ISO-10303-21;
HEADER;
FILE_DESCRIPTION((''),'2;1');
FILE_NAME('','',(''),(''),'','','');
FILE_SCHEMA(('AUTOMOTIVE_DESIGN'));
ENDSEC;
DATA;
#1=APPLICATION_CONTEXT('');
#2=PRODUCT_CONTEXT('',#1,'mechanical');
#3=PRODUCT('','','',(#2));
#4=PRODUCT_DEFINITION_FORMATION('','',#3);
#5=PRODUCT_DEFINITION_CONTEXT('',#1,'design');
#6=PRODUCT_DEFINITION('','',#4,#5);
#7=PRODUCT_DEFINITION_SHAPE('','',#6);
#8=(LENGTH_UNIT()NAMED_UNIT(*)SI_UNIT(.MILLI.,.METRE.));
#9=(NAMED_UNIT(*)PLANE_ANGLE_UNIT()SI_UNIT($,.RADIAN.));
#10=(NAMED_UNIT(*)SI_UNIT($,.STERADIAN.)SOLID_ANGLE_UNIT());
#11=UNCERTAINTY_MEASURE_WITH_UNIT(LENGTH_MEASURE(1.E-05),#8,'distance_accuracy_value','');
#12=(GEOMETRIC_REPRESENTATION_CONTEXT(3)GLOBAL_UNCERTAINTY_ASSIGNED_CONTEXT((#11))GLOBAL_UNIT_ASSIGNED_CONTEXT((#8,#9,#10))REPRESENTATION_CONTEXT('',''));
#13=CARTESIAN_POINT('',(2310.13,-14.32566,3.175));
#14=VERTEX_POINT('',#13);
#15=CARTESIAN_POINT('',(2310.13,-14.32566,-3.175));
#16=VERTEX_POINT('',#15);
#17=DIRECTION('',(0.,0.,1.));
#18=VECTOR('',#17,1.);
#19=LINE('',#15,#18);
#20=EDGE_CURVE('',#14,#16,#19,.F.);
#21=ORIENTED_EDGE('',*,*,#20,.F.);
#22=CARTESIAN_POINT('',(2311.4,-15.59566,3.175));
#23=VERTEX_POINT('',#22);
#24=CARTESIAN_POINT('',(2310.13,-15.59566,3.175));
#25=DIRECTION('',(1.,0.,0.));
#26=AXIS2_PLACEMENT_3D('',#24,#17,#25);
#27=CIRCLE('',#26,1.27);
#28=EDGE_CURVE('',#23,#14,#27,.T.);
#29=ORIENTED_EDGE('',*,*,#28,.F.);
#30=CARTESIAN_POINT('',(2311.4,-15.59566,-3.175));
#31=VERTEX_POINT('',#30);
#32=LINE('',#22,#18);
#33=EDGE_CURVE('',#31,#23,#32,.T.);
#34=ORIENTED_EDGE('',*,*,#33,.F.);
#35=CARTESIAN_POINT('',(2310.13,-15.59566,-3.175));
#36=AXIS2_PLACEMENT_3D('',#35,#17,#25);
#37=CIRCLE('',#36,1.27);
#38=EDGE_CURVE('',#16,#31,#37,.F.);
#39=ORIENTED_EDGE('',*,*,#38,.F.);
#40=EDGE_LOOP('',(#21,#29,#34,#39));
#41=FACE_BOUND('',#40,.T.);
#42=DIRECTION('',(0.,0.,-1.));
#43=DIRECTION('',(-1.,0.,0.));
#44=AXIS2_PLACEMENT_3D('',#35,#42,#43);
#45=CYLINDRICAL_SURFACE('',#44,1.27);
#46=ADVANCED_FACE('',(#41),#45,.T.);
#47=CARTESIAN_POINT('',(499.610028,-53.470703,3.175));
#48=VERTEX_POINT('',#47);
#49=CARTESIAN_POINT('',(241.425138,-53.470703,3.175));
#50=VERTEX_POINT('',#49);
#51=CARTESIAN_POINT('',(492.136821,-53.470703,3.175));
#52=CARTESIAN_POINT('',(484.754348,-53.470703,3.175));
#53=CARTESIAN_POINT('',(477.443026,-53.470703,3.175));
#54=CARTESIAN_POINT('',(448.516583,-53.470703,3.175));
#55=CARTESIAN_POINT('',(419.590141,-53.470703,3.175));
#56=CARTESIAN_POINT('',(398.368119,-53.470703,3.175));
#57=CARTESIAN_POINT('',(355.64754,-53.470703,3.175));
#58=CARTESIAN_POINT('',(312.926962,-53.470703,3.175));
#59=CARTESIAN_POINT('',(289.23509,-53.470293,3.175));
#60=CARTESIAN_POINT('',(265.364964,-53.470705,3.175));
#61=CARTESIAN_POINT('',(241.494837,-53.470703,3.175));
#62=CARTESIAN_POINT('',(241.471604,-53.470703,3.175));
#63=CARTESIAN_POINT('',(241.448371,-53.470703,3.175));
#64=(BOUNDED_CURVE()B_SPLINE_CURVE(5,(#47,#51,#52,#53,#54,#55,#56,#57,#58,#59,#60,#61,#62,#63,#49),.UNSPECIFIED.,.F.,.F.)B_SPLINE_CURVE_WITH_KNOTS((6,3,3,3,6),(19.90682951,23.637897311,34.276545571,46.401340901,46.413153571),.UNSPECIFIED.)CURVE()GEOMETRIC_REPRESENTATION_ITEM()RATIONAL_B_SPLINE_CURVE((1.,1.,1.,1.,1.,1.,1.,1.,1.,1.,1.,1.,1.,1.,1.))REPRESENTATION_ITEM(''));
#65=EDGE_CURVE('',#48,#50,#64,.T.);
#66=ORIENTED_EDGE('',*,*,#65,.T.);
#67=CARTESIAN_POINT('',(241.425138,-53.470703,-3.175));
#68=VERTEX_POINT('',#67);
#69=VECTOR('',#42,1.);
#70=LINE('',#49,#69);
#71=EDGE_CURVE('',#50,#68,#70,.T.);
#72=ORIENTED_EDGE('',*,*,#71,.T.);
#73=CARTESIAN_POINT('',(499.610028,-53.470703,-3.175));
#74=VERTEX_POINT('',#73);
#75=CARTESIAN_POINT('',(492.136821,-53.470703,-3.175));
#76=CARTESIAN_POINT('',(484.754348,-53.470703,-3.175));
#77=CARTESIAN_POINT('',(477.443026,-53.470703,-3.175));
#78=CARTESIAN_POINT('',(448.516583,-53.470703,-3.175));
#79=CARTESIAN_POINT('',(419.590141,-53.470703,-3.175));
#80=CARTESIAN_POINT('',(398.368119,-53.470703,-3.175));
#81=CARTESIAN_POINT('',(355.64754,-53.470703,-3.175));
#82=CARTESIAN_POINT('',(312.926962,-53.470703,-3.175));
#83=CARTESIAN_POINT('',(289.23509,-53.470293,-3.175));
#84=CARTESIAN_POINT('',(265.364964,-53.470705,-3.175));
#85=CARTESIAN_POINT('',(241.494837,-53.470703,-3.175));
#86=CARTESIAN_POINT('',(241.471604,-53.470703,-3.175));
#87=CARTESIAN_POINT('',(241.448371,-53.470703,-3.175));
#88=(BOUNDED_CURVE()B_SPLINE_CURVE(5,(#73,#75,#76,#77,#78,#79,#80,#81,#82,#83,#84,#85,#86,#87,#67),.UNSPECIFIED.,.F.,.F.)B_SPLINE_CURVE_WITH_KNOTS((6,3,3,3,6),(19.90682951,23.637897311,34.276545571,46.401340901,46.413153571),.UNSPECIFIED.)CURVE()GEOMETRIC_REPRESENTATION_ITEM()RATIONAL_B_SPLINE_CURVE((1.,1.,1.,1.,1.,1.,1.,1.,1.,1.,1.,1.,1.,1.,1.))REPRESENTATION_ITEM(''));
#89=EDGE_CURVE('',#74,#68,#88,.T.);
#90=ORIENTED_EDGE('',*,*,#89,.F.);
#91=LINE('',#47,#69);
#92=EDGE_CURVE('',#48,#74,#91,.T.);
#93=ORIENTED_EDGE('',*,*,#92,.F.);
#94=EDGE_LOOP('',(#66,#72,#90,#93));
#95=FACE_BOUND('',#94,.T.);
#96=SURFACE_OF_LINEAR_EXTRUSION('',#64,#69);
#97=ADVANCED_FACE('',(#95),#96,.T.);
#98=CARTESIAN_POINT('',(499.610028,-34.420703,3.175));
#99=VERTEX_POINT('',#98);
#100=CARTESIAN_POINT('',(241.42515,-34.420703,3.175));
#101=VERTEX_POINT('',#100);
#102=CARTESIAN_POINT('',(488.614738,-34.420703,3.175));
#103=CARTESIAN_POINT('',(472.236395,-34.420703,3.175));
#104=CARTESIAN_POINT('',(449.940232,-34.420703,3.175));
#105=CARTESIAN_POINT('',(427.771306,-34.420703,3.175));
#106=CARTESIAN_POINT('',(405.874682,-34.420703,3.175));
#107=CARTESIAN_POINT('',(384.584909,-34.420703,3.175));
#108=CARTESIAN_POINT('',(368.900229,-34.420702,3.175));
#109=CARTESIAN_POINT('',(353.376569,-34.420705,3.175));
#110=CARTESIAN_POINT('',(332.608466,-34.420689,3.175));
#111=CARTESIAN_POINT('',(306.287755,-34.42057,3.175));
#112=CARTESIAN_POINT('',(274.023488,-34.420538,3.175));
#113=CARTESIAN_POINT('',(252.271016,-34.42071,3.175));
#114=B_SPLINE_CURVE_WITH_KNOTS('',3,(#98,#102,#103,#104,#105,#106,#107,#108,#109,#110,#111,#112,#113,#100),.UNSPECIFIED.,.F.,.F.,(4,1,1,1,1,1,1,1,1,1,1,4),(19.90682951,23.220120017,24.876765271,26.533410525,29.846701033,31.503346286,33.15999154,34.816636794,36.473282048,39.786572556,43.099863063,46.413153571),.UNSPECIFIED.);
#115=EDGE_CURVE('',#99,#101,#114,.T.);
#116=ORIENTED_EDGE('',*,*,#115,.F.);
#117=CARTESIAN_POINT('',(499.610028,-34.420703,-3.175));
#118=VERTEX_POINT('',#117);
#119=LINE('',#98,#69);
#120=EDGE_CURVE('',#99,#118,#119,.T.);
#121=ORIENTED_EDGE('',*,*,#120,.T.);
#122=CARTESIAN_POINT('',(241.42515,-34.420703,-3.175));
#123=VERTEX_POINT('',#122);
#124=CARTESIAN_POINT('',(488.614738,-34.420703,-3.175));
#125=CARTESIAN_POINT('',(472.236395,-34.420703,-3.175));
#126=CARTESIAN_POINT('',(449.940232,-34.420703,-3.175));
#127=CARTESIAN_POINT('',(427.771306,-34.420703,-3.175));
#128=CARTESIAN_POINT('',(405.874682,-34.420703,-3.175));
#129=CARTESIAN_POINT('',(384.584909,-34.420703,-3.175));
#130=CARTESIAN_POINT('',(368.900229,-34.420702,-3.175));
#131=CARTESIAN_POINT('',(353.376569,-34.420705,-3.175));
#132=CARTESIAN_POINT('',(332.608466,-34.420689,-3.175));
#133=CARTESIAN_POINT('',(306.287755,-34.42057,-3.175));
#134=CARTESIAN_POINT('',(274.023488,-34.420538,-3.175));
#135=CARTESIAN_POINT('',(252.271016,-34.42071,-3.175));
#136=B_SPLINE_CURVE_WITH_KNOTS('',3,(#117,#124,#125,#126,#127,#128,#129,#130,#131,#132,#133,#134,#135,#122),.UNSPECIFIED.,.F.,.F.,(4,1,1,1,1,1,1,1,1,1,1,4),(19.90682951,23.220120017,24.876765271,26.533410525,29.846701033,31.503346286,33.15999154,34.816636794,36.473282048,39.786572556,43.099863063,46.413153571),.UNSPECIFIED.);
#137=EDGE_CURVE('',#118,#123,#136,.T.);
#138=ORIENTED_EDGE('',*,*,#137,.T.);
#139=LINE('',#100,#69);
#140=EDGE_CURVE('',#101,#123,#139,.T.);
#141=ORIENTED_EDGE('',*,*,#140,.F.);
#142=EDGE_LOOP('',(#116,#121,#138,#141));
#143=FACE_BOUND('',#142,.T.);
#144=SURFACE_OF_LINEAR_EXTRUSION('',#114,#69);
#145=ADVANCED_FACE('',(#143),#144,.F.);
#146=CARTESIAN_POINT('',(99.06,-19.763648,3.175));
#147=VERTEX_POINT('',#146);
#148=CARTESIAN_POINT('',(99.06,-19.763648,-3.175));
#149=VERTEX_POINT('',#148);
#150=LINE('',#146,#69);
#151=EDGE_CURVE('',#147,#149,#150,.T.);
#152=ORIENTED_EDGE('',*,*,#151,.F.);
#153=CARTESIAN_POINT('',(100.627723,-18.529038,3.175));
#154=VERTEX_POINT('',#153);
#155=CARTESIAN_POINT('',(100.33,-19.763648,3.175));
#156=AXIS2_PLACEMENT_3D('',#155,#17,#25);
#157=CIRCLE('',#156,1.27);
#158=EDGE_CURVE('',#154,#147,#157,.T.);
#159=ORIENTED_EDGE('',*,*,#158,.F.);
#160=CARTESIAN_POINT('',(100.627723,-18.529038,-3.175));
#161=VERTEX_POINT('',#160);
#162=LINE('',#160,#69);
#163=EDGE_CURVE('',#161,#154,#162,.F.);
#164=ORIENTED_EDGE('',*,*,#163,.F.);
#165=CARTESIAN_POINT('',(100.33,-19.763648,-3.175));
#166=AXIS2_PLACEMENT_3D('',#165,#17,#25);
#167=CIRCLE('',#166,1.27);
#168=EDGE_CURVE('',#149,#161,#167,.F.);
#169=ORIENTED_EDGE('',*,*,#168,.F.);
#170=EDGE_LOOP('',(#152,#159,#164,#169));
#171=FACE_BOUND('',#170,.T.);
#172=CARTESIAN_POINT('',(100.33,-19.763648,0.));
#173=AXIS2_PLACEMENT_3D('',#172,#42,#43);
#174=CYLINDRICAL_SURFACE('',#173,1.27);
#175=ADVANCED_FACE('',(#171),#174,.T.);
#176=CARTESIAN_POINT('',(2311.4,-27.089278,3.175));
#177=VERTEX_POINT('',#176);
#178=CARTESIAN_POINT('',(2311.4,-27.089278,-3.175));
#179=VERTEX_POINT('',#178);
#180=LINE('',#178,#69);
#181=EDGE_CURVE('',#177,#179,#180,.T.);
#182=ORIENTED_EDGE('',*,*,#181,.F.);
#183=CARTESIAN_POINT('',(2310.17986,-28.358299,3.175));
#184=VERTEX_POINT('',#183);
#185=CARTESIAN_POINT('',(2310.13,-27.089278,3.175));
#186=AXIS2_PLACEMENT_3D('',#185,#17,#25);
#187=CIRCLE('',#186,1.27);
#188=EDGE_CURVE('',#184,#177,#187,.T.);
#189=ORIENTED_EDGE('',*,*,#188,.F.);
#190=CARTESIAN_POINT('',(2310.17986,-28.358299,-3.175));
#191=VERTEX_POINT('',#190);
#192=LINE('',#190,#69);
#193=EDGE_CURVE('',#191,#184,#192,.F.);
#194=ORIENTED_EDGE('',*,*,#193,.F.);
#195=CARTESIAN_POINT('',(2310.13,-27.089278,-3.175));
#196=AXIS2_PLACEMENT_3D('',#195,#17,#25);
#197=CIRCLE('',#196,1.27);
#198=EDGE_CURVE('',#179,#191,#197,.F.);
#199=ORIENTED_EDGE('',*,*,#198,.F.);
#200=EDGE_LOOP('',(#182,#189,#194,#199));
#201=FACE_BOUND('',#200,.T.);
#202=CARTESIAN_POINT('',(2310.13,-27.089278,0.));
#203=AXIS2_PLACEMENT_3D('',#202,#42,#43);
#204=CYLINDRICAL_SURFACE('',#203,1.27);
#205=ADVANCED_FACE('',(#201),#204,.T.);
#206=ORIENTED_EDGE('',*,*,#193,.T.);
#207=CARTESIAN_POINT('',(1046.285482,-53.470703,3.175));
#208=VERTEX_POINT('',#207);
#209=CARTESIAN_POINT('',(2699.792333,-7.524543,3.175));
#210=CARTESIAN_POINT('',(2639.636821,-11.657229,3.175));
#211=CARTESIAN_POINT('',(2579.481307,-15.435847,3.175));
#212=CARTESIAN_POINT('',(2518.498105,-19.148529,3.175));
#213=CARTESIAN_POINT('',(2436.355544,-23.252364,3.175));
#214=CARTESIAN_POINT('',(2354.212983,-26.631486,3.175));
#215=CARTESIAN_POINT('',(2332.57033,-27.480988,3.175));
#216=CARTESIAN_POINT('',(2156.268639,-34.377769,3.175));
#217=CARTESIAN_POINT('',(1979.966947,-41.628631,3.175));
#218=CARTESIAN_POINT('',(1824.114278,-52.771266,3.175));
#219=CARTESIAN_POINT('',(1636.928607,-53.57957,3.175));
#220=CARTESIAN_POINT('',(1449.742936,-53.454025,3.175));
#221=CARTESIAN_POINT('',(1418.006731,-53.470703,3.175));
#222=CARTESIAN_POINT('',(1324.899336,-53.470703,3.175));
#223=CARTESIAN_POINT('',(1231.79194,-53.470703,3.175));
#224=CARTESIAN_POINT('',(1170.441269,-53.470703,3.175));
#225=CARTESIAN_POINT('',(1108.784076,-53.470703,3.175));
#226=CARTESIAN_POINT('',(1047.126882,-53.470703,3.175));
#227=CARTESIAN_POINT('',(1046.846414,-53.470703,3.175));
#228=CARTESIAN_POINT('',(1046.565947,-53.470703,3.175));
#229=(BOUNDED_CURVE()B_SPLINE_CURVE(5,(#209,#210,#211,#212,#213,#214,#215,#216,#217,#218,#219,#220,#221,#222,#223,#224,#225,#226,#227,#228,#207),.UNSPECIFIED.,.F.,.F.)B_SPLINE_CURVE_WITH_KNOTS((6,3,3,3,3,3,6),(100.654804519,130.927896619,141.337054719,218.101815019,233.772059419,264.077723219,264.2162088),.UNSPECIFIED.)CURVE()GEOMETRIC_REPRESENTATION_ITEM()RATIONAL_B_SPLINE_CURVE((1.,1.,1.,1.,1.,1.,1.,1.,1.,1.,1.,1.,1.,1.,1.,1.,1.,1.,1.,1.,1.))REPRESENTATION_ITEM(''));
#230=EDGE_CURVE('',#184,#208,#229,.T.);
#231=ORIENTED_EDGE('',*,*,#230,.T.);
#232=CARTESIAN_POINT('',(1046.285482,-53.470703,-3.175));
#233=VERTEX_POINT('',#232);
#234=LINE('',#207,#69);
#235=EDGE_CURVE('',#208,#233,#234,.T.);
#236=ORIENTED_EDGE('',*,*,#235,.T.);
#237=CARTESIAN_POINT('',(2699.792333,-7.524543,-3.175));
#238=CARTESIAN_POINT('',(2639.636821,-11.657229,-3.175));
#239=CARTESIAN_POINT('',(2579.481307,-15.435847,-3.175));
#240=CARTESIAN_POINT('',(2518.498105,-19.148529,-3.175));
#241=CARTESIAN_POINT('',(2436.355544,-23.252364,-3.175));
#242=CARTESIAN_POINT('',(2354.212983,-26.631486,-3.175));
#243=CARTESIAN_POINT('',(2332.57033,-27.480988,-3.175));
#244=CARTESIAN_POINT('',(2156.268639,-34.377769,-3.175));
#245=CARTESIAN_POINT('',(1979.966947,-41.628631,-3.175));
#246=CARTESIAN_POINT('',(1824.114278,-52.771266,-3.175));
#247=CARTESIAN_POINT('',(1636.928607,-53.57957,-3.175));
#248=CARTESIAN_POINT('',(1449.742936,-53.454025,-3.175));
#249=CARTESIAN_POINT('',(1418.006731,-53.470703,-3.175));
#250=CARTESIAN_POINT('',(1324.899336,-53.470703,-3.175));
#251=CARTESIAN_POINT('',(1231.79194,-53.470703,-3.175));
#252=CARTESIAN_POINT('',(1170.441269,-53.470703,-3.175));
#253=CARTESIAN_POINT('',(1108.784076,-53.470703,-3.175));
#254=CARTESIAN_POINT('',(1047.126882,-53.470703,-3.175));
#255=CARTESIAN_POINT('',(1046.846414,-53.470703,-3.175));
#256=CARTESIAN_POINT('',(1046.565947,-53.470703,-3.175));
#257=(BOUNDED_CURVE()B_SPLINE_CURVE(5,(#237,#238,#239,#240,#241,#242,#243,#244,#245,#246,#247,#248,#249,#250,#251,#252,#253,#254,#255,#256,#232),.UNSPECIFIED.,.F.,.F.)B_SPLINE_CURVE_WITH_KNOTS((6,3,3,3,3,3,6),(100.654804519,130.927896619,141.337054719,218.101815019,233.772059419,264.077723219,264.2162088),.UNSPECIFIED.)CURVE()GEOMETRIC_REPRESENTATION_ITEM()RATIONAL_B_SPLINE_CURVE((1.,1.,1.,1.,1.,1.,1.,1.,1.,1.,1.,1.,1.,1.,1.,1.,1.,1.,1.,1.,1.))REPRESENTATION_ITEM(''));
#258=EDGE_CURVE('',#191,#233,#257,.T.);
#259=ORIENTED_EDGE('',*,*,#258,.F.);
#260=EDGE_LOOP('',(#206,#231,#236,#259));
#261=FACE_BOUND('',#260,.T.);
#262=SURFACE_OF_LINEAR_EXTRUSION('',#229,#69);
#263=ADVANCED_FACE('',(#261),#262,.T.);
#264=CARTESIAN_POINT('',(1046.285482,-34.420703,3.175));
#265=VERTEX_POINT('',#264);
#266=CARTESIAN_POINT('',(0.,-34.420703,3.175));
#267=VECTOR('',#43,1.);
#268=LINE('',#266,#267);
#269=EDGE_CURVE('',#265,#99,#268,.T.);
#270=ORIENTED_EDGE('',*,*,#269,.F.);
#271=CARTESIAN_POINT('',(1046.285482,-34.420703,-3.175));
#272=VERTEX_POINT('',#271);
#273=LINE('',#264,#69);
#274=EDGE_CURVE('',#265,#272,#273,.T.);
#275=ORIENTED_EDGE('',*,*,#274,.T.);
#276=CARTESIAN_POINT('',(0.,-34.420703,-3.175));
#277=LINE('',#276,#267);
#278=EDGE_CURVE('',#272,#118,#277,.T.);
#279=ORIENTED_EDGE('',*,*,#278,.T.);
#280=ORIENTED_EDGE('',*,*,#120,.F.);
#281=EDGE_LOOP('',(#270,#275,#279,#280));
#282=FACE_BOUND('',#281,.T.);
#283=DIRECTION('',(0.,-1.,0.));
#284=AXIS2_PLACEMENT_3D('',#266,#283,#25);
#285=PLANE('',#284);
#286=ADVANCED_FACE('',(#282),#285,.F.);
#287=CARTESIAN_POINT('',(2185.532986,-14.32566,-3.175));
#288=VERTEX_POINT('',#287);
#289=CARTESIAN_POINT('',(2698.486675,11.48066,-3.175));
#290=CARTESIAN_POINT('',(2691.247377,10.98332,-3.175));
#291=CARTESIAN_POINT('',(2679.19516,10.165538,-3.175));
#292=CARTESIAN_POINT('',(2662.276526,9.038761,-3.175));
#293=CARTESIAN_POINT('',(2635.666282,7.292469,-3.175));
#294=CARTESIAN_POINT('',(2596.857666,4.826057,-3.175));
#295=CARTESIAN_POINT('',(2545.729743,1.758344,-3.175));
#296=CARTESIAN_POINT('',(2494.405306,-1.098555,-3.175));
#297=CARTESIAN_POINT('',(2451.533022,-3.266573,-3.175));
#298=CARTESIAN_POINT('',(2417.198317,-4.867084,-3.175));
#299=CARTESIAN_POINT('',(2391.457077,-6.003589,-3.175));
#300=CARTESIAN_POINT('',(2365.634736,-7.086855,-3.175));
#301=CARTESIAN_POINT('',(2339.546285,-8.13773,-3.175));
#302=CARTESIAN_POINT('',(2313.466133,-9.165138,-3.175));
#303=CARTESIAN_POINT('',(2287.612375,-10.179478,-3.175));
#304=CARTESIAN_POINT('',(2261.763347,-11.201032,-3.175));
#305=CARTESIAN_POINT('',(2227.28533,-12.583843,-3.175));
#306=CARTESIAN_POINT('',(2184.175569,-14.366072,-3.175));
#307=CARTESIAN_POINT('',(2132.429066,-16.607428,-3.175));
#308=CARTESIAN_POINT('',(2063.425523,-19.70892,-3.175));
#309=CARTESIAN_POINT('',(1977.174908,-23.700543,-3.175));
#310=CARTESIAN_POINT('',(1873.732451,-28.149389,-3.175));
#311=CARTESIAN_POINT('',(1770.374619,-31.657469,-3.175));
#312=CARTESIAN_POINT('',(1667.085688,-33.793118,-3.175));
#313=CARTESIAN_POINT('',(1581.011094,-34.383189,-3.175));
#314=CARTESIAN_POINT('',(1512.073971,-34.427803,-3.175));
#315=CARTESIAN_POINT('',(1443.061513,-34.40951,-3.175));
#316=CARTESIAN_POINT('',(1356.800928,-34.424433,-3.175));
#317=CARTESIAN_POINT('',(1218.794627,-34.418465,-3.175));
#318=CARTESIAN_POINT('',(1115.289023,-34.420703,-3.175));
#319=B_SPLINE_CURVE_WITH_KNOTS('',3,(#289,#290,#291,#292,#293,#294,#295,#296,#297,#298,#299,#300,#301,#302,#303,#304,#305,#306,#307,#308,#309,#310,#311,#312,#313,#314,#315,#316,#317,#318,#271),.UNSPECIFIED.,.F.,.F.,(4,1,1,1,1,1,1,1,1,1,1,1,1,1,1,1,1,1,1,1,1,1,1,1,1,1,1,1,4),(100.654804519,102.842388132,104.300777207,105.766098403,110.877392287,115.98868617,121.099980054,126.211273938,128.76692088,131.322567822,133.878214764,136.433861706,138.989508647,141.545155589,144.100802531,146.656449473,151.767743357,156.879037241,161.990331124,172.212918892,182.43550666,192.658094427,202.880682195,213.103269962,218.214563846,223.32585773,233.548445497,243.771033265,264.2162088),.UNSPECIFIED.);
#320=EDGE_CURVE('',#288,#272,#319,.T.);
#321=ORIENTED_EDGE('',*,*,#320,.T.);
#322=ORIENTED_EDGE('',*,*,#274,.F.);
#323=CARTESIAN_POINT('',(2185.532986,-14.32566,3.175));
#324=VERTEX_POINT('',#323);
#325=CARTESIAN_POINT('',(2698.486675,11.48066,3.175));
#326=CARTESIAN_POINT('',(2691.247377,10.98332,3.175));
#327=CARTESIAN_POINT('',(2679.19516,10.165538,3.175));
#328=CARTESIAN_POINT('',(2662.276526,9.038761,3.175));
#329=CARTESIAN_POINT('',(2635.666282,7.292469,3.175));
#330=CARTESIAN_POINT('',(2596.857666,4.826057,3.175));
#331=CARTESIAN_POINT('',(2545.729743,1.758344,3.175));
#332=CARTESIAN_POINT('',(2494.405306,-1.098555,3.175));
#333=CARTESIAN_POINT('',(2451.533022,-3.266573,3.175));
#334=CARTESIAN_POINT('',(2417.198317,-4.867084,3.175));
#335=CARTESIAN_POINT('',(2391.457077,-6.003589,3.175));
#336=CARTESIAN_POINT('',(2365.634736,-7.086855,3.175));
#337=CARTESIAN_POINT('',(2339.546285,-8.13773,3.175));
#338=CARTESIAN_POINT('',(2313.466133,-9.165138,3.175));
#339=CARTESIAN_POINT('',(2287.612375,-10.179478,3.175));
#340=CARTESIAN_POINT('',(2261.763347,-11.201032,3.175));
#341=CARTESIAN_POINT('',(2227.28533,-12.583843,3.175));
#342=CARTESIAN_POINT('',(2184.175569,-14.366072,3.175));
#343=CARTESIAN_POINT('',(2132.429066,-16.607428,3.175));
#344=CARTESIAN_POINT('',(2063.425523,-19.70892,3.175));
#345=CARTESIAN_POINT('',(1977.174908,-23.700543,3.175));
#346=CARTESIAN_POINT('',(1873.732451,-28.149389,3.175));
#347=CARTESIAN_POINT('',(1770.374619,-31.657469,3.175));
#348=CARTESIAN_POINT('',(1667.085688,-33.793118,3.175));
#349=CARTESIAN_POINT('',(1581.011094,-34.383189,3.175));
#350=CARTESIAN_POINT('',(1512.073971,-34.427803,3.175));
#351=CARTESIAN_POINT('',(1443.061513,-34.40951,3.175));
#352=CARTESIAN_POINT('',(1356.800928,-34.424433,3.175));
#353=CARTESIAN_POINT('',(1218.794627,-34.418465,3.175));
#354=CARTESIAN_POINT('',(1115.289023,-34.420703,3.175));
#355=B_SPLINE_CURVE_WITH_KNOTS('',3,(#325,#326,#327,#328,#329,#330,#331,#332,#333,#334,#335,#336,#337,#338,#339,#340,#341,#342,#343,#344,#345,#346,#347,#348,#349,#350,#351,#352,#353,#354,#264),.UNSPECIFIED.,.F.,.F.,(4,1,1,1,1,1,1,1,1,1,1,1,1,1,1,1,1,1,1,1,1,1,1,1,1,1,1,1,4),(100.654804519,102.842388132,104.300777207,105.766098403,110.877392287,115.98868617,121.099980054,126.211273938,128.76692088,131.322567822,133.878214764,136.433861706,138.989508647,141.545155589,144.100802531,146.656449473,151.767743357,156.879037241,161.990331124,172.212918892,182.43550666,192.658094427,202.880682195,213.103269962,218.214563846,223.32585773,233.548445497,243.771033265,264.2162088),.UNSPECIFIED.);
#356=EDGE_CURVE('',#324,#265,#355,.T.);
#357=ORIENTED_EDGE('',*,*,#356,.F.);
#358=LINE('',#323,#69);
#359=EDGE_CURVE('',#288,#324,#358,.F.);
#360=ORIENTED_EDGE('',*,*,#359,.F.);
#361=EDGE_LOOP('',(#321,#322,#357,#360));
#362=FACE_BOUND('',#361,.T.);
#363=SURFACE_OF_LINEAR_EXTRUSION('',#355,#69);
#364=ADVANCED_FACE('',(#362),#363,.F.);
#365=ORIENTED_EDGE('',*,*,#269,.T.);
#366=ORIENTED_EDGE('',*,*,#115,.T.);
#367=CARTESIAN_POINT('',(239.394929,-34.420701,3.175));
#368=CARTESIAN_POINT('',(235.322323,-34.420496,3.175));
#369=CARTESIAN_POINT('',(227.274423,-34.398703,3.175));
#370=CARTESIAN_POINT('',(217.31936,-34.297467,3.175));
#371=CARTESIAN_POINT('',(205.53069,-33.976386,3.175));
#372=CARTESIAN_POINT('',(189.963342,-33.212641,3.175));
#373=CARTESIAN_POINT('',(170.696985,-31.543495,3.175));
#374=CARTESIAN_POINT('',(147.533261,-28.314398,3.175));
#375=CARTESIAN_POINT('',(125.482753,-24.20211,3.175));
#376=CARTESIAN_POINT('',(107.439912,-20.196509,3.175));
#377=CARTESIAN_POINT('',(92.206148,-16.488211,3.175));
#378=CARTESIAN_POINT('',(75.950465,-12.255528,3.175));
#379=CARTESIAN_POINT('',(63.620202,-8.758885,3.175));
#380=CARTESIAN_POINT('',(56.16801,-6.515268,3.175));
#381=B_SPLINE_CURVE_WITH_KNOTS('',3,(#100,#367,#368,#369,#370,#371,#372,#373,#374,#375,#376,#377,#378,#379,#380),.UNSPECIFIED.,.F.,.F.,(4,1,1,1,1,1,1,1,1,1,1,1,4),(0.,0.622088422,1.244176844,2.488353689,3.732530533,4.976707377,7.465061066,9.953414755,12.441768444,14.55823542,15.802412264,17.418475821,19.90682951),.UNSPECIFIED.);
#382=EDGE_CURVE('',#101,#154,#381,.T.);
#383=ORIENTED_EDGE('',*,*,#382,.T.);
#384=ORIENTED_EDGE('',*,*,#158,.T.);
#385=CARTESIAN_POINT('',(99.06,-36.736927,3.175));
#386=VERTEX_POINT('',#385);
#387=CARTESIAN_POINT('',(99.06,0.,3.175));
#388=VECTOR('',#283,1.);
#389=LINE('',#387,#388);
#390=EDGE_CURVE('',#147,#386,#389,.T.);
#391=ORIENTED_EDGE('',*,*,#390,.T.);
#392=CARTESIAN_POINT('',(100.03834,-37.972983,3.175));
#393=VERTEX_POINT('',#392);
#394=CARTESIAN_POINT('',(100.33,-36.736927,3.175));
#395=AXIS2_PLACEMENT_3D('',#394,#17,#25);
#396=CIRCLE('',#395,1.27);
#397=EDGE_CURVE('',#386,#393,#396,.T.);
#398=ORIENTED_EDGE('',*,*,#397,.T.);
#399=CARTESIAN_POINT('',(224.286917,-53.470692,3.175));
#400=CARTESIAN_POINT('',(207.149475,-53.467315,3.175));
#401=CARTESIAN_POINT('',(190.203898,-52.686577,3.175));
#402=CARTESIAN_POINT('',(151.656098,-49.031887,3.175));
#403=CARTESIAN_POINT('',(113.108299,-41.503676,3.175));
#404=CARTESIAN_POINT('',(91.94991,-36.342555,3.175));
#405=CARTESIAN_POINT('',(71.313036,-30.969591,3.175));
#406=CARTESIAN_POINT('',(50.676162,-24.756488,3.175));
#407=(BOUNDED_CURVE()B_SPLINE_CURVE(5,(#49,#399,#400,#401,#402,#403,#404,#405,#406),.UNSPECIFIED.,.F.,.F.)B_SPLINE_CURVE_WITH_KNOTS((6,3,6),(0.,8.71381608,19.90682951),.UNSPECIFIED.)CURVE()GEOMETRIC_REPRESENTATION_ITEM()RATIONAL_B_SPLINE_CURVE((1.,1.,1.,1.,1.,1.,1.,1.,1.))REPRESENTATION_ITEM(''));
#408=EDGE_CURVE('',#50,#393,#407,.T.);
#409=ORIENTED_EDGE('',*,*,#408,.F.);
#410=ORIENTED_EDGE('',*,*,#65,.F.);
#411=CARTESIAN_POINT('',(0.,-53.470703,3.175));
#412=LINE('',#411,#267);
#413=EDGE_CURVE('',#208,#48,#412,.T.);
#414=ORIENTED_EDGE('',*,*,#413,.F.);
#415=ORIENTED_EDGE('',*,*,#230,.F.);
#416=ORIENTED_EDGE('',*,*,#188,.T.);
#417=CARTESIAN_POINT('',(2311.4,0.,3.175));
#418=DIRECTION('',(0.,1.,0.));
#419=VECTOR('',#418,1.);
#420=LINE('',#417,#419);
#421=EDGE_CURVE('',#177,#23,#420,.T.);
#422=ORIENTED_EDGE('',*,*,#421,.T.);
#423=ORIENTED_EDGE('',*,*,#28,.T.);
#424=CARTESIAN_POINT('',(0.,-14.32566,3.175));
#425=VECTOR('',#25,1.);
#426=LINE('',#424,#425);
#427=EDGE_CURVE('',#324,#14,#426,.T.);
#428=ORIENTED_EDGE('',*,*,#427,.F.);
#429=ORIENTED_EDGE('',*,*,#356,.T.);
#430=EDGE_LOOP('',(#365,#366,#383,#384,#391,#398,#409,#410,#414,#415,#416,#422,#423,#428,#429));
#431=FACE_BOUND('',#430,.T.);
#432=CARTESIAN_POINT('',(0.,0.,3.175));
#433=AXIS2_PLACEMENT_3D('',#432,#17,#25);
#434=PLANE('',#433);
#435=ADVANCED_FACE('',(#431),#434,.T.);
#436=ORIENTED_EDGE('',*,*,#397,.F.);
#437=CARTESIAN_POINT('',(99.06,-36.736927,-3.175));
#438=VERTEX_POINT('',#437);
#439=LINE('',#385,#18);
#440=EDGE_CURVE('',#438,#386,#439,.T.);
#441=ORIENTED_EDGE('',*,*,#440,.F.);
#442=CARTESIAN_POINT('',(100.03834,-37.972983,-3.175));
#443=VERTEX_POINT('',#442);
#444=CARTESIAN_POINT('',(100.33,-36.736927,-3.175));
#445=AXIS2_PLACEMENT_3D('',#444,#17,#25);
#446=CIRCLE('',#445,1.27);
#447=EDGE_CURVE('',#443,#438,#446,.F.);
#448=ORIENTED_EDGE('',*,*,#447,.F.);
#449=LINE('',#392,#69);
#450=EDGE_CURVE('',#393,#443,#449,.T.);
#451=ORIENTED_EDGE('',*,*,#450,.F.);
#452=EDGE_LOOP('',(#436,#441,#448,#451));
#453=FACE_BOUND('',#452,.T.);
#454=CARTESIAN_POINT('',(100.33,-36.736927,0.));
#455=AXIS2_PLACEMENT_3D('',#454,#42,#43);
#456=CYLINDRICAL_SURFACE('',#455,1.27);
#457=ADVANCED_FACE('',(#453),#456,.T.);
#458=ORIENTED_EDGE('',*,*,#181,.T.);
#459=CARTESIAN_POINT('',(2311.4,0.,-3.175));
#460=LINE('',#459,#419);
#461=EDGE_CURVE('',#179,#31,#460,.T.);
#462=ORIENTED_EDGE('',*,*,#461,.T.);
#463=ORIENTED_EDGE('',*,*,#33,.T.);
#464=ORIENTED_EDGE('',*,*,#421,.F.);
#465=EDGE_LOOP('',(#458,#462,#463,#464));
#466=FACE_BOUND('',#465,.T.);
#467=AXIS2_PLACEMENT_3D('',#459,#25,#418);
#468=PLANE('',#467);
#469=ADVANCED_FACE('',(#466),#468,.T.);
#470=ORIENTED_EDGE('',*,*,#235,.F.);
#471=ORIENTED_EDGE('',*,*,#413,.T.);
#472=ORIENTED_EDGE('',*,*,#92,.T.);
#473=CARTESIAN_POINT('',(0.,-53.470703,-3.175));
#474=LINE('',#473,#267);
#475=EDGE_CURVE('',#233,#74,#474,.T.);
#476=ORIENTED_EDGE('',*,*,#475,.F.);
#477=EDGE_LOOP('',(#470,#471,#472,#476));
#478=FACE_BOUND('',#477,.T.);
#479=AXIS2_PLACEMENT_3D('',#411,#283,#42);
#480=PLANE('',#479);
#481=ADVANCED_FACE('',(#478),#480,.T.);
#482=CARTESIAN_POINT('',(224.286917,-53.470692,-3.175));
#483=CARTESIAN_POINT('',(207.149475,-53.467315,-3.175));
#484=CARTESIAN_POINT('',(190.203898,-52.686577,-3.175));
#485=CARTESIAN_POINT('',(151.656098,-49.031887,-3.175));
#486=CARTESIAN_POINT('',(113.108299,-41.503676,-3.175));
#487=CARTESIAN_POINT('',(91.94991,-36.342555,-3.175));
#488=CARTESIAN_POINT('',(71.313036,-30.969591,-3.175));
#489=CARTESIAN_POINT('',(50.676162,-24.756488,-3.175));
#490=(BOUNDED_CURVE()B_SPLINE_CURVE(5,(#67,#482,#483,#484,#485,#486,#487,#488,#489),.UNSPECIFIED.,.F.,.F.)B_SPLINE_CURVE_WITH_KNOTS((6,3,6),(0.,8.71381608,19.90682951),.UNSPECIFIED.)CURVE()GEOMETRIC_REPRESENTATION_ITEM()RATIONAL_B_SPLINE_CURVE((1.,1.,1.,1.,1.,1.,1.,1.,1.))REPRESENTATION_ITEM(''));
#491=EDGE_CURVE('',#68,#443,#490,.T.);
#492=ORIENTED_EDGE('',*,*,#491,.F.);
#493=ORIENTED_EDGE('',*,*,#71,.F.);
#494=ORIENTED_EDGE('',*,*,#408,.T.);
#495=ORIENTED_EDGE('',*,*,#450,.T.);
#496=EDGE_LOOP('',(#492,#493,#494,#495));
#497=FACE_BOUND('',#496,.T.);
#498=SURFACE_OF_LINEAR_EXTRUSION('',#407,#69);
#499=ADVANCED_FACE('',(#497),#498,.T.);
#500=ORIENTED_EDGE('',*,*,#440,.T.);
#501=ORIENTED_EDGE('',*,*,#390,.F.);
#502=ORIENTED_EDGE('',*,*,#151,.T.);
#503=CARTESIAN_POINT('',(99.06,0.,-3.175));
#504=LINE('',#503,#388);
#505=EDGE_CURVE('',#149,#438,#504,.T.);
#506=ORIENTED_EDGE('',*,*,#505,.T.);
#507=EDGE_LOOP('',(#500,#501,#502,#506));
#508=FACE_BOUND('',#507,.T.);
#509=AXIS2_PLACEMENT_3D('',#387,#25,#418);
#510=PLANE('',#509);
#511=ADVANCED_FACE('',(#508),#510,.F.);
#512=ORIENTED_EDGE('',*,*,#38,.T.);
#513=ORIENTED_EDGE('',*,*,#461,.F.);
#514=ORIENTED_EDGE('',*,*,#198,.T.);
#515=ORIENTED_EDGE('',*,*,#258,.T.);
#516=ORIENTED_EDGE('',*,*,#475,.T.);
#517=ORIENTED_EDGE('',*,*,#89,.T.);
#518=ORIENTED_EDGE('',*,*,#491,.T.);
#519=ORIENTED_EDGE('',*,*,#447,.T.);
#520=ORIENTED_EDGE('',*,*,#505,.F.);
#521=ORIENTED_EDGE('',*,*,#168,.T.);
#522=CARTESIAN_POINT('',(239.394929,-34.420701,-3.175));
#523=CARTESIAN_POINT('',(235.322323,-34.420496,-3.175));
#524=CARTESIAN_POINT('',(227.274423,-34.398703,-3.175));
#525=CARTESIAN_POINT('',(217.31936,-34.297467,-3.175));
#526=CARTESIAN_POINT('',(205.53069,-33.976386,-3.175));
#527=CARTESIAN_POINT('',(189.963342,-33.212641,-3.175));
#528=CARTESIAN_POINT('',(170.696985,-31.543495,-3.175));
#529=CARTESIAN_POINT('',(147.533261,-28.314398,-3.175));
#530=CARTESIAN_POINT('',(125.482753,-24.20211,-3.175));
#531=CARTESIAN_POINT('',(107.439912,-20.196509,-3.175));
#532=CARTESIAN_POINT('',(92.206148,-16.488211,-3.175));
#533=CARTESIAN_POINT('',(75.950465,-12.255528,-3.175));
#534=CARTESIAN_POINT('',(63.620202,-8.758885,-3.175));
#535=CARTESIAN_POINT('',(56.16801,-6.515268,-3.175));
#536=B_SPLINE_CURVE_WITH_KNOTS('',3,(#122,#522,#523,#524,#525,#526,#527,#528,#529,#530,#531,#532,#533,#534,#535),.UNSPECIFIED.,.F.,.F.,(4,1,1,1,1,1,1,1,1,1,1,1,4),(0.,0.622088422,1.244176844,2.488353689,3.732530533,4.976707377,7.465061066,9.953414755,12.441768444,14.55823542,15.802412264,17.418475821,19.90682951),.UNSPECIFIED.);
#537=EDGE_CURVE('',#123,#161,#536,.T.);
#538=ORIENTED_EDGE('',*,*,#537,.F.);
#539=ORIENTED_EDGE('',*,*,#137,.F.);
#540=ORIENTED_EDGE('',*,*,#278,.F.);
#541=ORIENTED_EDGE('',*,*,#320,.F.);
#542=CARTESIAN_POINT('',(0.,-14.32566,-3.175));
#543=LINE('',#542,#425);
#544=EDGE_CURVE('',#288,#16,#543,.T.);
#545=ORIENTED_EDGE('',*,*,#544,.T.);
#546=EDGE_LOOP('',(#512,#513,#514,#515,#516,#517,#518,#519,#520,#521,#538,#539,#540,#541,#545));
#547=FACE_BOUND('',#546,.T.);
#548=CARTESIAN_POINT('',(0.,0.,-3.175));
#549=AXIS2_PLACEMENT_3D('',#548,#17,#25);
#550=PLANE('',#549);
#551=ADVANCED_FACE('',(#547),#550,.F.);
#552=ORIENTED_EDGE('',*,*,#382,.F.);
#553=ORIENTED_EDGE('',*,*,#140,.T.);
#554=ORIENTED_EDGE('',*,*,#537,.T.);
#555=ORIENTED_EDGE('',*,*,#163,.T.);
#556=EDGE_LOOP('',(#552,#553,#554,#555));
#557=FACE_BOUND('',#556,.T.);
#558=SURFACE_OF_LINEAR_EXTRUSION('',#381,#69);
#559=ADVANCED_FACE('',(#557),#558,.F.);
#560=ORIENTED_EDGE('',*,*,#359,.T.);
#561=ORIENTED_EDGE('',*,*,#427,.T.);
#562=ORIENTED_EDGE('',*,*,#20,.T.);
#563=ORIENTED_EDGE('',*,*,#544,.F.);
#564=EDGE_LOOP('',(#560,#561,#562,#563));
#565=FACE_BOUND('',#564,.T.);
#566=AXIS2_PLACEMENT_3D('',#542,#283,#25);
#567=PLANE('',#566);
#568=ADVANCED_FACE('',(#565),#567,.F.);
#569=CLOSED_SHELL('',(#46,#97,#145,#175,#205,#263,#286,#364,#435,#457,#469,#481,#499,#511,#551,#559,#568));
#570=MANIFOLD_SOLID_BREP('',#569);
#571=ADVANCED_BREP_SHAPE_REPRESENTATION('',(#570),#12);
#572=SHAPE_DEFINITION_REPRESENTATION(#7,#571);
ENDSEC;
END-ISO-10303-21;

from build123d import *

# Parameters (mm, degrees)
BOSS_EXTRUDE1_DEPTH = 3.175
CUT_EXTRUDE1_DEPTH  = 7.3500001
FILLET1_R           = 1.27


with BuildPart() as part:
    # Sketch1 → Boss-Extrude1 (new body, symmetric)
    with BuildSketch(Plane.XY):
        with BuildLine():
            Line((499.61002795, -53.470702797), (1046.28548189, -53.470702797))
            add(Edge.make_bspline(
                [(2669.54, -9.569049356), (2615.393603553, -13.17073937), (2561.080658619, -16.536108081), (2506.205230446, -19.758621957), (2430.209106802, -23.505211705), (2354.212983157, -26.631486423), (2332.570330468, -27.480988169), (2156.268639429, -34.377768543), (1979.966947376, -41.628631248), (1824.114277635, -52.771265877), (1636.928606778, -53.579569849), (1449.742935921, -53.454024613), (1418.006730935, -53.470702797), (1324.899336146, -53.470702797), (1231.791940344, -53.470702797), (1170.441269319, -53.470702797), (1108.784075813, -53.470702797), (1047.126882346, -53.470702797), (1046.846414188, -53.470702797), (1046.565947184, -53.470702797), (1046.28548189, -53.470702797)],
                knots=[103.698913506, 103.698913506, 103.698913506, 103.698913506, 103.698913506, 103.698913506, 130.927896619, 130.927896619, 130.927896619, 141.337054719, 141.337054719, 141.337054719, 218.101815019, 218.101815019, 218.101815019, 233.772059419, 233.772059419, 233.772059419, 264.077723219, 264.077723219, 264.077723219, 264.2162088, 264.2162088, 264.2162088, 264.2162088, 264.2162088, 264.2162088], degree=5))
            Line((2669.54, -9.569049356), (2669.54, 9.5231025))
            add(Edge.make_bspline(
                [(2669.54, 9.5231025), (2667.126494524, 9.36235515), (2659.861586685, 8.880281494), (2635.666282302, 7.292469146), (2596.857665529, 4.826056853), (2545.729743039, 1.758344093), (2494.405305707, -1.098555235), (2451.533022267, -3.266573297), (2417.198316756, -4.86708361), (2391.457076919, -6.003589235), (2365.634736307, -7.086854581), (2339.546284672, -8.137729944), (2313.466132974, -9.165138371), (2287.612375486, -10.179478215), (2261.763347437, -11.201032297), (2227.285329715, -12.583842557), (2184.175569393, -14.36607236), (2132.429066114, -16.607427868), (2063.4255234, -19.708920485), (1977.174907635, -23.700543313), (1873.732451432, -28.149389221), (1770.37461881, -31.657468649), (1667.085687813, -33.793117556), (1581.011094491, -34.383188831), (1512.07397126, -34.4278026), (1443.061513477, -34.409510402), (1356.800927879, -34.424432812), (1218.794626954, -34.418464788), (1115.289022786, -34.420702797), (1046.28548189, -34.420702797)],
                knots=[103.571582669, 103.571582669, 103.571582669, 103.571582669, 104.300777207, 105.766098403, 110.877392287, 115.98868617, 121.099980054, 126.211273938, 128.76692088, 131.322567822, 133.878214764, 136.433861706, 138.989508647, 141.545155589, 144.100802531, 146.656449473, 151.767743357, 156.879037241, 161.990331124, 172.212918892, 182.43550666, 192.658094427, 202.880682195, 213.103269962, 218.214563846, 223.32585773, 233.548445497, 243.771033265, 264.2162088, 264.2162088, 264.2162088, 264.2162088], degree=3))
            Line((1046.28548189, -34.420702797), (499.61002795, -34.420702797))
            add(Edge.make_bspline(
                [(499.61002795, -34.420702797), (488.614737518, -34.420702797), (472.236395365, -34.420702798), (449.940231846, -34.420702794), (427.771305695, -34.42070281), (405.874681663, -34.420702712), (384.584909128, -34.420702942), (368.900229326, -34.420702244), (353.376568613, -34.420704862), (332.608466435, -34.420689186), (306.287754853, -34.420570006), (274.023487704, -34.420538256), (252.271015965, -34.420709741), (241.425150134, -34.420702761)],
                knots=[19.90682951, 19.90682951, 19.90682951, 19.90682951, 23.220120017, 24.876765271, 26.533410525, 29.846701033, 31.503346286, 33.15999154, 34.816636794, 36.473282048, 39.786572556, 43.099863063, 46.413153571, 46.413153571, 46.413153571, 46.413153571], degree=3))
            add(Edge.make_bspline(
                [(241.425150134, -34.420702761), (239.394928853, -34.420701455), (235.322322927, -34.420495867), (227.274423443, -34.398702533), (217.319360062, -34.297466855), (205.530690077, -33.976385563), (189.963341914, -33.212641271), (170.696984653, -31.543495194), (147.533261232, -28.314398128), (125.482753206, -24.202109872), (109.358914834, -20.622537553), (100.964116069, -18.612521054), (99.06, -18.149327722)],
                knots=[0, 0, 0, 0, 0.622088422, 1.244176844, 2.488353689, 3.732530533, 4.976707377, 7.465061066, 9.953414755, 12.441768444, 14.55823542, 15.180323842, 15.180323842, 15.180323842, 15.180323842], degree=3))
            Line((99.06, -18.149327722), (99.06, -37.741485304))
            add(Edge.make_bspline(
                [(241.425137875, -53.470702761), (224.286916993, -53.470691732), (207.149474967, -53.467315374), (190.203897513, -52.686577078), (161.734965878, -49.987457476), (133.266034188, -45.175583375), (121.749620566, -42.910592695), (110.349390726, -40.420274627), (99.06, -37.741485304)],
                knots=[0, 0, 0, 0, 0, 0, 8.71381608, 8.71381608, 8.71381608, 14.701907176, 14.701907176, 14.701907176, 14.701907176, 14.701907176, 14.701907176], degree=5))
            add(Edge.make_bspline(
                [(499.61002795, -53.470702797), (492.136820835, -53.470702797), (484.754348064, -53.470702797), (477.443025859, -53.470702797), (448.516583145, -53.470702797), (419.590140517, -53.470702797), (398.368118521, -53.470702797), (355.647540186, -53.470702797), (312.926961851, -53.470702797), (289.235090436, -53.470293029), (265.364963651, -53.470705034), (241.4948369, -53.470702789), (241.471603891, -53.470702785), (241.448370882, -53.470702776), (241.425137875, -53.470702761)],
                knots=[19.90682951, 19.90682951, 19.90682951, 19.90682951, 19.90682951, 19.90682951, 23.637897311, 23.637897311, 23.637897311, 34.276545571, 34.276545571, 34.276545571, 46.401340901, 46.401340901, 46.401340901, 46.413153571, 46.413153571, 46.413153571, 46.413153571, 46.413153571, 46.413153571], degree=5))
        make_face()
    extrude(amount=BOSS_EXTRUDE1_DEPTH, both=True)

    # Sketch2 → Cut-Extrude1 (cut, through all)
    with BuildSketch(Plane.XY.offset(3.175)):
        with BuildLine():
            add(Edge.make_bspline(
                [(2311.4, -9.245659725), (2303.45127581, -9.558066869), (2286.914031668, -10.207076776), (2261.763347437, -11.201032297), (2227.738431725, -12.565669989), (2202.325932618, -13.615715702), (2185.532985525, -14.325659725)],
                knots=[139.196640642, 139.196640642, 139.196640642, 139.196640642, 141.545155589, 144.100802531, 146.656449473, 151.63340051, 151.63340051, 151.63340051, 151.63340051], degree=3))
            Line((2185.532985525, -14.325659725), (2311.4, -14.325659725))
            Line((2311.4, -14.325659725), (2311.4, -9.245659725))
        make_face()
        with BuildLine():
            Line((2311.4, -9.245659725), (2311.4, -14.325659725))
            Line((2311.4, -14.325659725), (2311.4, -28.310356345))
            add(Edge.make_bspline(
                [(2669.54, -9.569049356), (2615.393603553, -13.17073937), (2561.080658619, -16.536108081), (2506.205230446, -19.758621957), (2434.382223772, -23.29947809), (2362.559217098, -26.286274493), (2345.393069943, -26.972929947), (2328.342945407, -27.644579597), (2311.4, -28.310356345)],
                knots=[103.698913506, 103.698913506, 103.698913506, 103.698913506, 103.698913506, 103.698913506, 130.927896619, 130.927896619, 130.927896619, 139.270260279, 139.270260279, 139.270260279, 139.270260279, 139.270260279, 139.270260279], degree=5))
            Line((2669.54, -9.569049356), (2669.54, 9.5231025))
            add(Edge.make_bspline(
                [(2669.54, 9.5231025), (2667.126494524, 9.36235515), (2659.861586685, 8.880281494), (2635.666282302, 7.292469146), (2596.857665529, 4.826056853), (2545.729743039, 1.758344093), (2494.405305707, -1.098555235), (2451.533022267, -3.266573297), (2417.198316756, -4.86708361), (2391.457076919, -6.003589235), (2365.634736307, -7.086854581), (2339.546284672, -8.137729944), (2321.454928961, -8.850425619), (2312.1010537, -9.218106349), (2311.4, -9.245659725)],
                knots=[103.571582669, 103.571582669, 103.571582669, 103.571582669, 104.300777207, 105.766098403, 110.877392287, 115.98868617, 121.099980054, 126.211273938, 128.76692088, 131.322567822, 133.878214764, 136.433861706, 138.989508647, 139.196640642, 139.196640642, 139.196640642, 139.196640642], degree=3))
        make_face()
    extrude(amount=-CUT_EXTRUDE1_DEPTH, mode=Mode.SUBTRACT)

    # Fillet1
    fillet1_edges = [part.edges().sort_by_distance(p)[0] for p in [
        (99.06, -37.741485304, -1.5875),
        (99.06, -18.149327722, -1.5875),
        (2311.4, -14.325659725, 0),
        (2311.4, -28.310356345, -1.5875),
    ]]
    fillet(fillet1_edges, radius=FILLET1_R)


solid = part.part
